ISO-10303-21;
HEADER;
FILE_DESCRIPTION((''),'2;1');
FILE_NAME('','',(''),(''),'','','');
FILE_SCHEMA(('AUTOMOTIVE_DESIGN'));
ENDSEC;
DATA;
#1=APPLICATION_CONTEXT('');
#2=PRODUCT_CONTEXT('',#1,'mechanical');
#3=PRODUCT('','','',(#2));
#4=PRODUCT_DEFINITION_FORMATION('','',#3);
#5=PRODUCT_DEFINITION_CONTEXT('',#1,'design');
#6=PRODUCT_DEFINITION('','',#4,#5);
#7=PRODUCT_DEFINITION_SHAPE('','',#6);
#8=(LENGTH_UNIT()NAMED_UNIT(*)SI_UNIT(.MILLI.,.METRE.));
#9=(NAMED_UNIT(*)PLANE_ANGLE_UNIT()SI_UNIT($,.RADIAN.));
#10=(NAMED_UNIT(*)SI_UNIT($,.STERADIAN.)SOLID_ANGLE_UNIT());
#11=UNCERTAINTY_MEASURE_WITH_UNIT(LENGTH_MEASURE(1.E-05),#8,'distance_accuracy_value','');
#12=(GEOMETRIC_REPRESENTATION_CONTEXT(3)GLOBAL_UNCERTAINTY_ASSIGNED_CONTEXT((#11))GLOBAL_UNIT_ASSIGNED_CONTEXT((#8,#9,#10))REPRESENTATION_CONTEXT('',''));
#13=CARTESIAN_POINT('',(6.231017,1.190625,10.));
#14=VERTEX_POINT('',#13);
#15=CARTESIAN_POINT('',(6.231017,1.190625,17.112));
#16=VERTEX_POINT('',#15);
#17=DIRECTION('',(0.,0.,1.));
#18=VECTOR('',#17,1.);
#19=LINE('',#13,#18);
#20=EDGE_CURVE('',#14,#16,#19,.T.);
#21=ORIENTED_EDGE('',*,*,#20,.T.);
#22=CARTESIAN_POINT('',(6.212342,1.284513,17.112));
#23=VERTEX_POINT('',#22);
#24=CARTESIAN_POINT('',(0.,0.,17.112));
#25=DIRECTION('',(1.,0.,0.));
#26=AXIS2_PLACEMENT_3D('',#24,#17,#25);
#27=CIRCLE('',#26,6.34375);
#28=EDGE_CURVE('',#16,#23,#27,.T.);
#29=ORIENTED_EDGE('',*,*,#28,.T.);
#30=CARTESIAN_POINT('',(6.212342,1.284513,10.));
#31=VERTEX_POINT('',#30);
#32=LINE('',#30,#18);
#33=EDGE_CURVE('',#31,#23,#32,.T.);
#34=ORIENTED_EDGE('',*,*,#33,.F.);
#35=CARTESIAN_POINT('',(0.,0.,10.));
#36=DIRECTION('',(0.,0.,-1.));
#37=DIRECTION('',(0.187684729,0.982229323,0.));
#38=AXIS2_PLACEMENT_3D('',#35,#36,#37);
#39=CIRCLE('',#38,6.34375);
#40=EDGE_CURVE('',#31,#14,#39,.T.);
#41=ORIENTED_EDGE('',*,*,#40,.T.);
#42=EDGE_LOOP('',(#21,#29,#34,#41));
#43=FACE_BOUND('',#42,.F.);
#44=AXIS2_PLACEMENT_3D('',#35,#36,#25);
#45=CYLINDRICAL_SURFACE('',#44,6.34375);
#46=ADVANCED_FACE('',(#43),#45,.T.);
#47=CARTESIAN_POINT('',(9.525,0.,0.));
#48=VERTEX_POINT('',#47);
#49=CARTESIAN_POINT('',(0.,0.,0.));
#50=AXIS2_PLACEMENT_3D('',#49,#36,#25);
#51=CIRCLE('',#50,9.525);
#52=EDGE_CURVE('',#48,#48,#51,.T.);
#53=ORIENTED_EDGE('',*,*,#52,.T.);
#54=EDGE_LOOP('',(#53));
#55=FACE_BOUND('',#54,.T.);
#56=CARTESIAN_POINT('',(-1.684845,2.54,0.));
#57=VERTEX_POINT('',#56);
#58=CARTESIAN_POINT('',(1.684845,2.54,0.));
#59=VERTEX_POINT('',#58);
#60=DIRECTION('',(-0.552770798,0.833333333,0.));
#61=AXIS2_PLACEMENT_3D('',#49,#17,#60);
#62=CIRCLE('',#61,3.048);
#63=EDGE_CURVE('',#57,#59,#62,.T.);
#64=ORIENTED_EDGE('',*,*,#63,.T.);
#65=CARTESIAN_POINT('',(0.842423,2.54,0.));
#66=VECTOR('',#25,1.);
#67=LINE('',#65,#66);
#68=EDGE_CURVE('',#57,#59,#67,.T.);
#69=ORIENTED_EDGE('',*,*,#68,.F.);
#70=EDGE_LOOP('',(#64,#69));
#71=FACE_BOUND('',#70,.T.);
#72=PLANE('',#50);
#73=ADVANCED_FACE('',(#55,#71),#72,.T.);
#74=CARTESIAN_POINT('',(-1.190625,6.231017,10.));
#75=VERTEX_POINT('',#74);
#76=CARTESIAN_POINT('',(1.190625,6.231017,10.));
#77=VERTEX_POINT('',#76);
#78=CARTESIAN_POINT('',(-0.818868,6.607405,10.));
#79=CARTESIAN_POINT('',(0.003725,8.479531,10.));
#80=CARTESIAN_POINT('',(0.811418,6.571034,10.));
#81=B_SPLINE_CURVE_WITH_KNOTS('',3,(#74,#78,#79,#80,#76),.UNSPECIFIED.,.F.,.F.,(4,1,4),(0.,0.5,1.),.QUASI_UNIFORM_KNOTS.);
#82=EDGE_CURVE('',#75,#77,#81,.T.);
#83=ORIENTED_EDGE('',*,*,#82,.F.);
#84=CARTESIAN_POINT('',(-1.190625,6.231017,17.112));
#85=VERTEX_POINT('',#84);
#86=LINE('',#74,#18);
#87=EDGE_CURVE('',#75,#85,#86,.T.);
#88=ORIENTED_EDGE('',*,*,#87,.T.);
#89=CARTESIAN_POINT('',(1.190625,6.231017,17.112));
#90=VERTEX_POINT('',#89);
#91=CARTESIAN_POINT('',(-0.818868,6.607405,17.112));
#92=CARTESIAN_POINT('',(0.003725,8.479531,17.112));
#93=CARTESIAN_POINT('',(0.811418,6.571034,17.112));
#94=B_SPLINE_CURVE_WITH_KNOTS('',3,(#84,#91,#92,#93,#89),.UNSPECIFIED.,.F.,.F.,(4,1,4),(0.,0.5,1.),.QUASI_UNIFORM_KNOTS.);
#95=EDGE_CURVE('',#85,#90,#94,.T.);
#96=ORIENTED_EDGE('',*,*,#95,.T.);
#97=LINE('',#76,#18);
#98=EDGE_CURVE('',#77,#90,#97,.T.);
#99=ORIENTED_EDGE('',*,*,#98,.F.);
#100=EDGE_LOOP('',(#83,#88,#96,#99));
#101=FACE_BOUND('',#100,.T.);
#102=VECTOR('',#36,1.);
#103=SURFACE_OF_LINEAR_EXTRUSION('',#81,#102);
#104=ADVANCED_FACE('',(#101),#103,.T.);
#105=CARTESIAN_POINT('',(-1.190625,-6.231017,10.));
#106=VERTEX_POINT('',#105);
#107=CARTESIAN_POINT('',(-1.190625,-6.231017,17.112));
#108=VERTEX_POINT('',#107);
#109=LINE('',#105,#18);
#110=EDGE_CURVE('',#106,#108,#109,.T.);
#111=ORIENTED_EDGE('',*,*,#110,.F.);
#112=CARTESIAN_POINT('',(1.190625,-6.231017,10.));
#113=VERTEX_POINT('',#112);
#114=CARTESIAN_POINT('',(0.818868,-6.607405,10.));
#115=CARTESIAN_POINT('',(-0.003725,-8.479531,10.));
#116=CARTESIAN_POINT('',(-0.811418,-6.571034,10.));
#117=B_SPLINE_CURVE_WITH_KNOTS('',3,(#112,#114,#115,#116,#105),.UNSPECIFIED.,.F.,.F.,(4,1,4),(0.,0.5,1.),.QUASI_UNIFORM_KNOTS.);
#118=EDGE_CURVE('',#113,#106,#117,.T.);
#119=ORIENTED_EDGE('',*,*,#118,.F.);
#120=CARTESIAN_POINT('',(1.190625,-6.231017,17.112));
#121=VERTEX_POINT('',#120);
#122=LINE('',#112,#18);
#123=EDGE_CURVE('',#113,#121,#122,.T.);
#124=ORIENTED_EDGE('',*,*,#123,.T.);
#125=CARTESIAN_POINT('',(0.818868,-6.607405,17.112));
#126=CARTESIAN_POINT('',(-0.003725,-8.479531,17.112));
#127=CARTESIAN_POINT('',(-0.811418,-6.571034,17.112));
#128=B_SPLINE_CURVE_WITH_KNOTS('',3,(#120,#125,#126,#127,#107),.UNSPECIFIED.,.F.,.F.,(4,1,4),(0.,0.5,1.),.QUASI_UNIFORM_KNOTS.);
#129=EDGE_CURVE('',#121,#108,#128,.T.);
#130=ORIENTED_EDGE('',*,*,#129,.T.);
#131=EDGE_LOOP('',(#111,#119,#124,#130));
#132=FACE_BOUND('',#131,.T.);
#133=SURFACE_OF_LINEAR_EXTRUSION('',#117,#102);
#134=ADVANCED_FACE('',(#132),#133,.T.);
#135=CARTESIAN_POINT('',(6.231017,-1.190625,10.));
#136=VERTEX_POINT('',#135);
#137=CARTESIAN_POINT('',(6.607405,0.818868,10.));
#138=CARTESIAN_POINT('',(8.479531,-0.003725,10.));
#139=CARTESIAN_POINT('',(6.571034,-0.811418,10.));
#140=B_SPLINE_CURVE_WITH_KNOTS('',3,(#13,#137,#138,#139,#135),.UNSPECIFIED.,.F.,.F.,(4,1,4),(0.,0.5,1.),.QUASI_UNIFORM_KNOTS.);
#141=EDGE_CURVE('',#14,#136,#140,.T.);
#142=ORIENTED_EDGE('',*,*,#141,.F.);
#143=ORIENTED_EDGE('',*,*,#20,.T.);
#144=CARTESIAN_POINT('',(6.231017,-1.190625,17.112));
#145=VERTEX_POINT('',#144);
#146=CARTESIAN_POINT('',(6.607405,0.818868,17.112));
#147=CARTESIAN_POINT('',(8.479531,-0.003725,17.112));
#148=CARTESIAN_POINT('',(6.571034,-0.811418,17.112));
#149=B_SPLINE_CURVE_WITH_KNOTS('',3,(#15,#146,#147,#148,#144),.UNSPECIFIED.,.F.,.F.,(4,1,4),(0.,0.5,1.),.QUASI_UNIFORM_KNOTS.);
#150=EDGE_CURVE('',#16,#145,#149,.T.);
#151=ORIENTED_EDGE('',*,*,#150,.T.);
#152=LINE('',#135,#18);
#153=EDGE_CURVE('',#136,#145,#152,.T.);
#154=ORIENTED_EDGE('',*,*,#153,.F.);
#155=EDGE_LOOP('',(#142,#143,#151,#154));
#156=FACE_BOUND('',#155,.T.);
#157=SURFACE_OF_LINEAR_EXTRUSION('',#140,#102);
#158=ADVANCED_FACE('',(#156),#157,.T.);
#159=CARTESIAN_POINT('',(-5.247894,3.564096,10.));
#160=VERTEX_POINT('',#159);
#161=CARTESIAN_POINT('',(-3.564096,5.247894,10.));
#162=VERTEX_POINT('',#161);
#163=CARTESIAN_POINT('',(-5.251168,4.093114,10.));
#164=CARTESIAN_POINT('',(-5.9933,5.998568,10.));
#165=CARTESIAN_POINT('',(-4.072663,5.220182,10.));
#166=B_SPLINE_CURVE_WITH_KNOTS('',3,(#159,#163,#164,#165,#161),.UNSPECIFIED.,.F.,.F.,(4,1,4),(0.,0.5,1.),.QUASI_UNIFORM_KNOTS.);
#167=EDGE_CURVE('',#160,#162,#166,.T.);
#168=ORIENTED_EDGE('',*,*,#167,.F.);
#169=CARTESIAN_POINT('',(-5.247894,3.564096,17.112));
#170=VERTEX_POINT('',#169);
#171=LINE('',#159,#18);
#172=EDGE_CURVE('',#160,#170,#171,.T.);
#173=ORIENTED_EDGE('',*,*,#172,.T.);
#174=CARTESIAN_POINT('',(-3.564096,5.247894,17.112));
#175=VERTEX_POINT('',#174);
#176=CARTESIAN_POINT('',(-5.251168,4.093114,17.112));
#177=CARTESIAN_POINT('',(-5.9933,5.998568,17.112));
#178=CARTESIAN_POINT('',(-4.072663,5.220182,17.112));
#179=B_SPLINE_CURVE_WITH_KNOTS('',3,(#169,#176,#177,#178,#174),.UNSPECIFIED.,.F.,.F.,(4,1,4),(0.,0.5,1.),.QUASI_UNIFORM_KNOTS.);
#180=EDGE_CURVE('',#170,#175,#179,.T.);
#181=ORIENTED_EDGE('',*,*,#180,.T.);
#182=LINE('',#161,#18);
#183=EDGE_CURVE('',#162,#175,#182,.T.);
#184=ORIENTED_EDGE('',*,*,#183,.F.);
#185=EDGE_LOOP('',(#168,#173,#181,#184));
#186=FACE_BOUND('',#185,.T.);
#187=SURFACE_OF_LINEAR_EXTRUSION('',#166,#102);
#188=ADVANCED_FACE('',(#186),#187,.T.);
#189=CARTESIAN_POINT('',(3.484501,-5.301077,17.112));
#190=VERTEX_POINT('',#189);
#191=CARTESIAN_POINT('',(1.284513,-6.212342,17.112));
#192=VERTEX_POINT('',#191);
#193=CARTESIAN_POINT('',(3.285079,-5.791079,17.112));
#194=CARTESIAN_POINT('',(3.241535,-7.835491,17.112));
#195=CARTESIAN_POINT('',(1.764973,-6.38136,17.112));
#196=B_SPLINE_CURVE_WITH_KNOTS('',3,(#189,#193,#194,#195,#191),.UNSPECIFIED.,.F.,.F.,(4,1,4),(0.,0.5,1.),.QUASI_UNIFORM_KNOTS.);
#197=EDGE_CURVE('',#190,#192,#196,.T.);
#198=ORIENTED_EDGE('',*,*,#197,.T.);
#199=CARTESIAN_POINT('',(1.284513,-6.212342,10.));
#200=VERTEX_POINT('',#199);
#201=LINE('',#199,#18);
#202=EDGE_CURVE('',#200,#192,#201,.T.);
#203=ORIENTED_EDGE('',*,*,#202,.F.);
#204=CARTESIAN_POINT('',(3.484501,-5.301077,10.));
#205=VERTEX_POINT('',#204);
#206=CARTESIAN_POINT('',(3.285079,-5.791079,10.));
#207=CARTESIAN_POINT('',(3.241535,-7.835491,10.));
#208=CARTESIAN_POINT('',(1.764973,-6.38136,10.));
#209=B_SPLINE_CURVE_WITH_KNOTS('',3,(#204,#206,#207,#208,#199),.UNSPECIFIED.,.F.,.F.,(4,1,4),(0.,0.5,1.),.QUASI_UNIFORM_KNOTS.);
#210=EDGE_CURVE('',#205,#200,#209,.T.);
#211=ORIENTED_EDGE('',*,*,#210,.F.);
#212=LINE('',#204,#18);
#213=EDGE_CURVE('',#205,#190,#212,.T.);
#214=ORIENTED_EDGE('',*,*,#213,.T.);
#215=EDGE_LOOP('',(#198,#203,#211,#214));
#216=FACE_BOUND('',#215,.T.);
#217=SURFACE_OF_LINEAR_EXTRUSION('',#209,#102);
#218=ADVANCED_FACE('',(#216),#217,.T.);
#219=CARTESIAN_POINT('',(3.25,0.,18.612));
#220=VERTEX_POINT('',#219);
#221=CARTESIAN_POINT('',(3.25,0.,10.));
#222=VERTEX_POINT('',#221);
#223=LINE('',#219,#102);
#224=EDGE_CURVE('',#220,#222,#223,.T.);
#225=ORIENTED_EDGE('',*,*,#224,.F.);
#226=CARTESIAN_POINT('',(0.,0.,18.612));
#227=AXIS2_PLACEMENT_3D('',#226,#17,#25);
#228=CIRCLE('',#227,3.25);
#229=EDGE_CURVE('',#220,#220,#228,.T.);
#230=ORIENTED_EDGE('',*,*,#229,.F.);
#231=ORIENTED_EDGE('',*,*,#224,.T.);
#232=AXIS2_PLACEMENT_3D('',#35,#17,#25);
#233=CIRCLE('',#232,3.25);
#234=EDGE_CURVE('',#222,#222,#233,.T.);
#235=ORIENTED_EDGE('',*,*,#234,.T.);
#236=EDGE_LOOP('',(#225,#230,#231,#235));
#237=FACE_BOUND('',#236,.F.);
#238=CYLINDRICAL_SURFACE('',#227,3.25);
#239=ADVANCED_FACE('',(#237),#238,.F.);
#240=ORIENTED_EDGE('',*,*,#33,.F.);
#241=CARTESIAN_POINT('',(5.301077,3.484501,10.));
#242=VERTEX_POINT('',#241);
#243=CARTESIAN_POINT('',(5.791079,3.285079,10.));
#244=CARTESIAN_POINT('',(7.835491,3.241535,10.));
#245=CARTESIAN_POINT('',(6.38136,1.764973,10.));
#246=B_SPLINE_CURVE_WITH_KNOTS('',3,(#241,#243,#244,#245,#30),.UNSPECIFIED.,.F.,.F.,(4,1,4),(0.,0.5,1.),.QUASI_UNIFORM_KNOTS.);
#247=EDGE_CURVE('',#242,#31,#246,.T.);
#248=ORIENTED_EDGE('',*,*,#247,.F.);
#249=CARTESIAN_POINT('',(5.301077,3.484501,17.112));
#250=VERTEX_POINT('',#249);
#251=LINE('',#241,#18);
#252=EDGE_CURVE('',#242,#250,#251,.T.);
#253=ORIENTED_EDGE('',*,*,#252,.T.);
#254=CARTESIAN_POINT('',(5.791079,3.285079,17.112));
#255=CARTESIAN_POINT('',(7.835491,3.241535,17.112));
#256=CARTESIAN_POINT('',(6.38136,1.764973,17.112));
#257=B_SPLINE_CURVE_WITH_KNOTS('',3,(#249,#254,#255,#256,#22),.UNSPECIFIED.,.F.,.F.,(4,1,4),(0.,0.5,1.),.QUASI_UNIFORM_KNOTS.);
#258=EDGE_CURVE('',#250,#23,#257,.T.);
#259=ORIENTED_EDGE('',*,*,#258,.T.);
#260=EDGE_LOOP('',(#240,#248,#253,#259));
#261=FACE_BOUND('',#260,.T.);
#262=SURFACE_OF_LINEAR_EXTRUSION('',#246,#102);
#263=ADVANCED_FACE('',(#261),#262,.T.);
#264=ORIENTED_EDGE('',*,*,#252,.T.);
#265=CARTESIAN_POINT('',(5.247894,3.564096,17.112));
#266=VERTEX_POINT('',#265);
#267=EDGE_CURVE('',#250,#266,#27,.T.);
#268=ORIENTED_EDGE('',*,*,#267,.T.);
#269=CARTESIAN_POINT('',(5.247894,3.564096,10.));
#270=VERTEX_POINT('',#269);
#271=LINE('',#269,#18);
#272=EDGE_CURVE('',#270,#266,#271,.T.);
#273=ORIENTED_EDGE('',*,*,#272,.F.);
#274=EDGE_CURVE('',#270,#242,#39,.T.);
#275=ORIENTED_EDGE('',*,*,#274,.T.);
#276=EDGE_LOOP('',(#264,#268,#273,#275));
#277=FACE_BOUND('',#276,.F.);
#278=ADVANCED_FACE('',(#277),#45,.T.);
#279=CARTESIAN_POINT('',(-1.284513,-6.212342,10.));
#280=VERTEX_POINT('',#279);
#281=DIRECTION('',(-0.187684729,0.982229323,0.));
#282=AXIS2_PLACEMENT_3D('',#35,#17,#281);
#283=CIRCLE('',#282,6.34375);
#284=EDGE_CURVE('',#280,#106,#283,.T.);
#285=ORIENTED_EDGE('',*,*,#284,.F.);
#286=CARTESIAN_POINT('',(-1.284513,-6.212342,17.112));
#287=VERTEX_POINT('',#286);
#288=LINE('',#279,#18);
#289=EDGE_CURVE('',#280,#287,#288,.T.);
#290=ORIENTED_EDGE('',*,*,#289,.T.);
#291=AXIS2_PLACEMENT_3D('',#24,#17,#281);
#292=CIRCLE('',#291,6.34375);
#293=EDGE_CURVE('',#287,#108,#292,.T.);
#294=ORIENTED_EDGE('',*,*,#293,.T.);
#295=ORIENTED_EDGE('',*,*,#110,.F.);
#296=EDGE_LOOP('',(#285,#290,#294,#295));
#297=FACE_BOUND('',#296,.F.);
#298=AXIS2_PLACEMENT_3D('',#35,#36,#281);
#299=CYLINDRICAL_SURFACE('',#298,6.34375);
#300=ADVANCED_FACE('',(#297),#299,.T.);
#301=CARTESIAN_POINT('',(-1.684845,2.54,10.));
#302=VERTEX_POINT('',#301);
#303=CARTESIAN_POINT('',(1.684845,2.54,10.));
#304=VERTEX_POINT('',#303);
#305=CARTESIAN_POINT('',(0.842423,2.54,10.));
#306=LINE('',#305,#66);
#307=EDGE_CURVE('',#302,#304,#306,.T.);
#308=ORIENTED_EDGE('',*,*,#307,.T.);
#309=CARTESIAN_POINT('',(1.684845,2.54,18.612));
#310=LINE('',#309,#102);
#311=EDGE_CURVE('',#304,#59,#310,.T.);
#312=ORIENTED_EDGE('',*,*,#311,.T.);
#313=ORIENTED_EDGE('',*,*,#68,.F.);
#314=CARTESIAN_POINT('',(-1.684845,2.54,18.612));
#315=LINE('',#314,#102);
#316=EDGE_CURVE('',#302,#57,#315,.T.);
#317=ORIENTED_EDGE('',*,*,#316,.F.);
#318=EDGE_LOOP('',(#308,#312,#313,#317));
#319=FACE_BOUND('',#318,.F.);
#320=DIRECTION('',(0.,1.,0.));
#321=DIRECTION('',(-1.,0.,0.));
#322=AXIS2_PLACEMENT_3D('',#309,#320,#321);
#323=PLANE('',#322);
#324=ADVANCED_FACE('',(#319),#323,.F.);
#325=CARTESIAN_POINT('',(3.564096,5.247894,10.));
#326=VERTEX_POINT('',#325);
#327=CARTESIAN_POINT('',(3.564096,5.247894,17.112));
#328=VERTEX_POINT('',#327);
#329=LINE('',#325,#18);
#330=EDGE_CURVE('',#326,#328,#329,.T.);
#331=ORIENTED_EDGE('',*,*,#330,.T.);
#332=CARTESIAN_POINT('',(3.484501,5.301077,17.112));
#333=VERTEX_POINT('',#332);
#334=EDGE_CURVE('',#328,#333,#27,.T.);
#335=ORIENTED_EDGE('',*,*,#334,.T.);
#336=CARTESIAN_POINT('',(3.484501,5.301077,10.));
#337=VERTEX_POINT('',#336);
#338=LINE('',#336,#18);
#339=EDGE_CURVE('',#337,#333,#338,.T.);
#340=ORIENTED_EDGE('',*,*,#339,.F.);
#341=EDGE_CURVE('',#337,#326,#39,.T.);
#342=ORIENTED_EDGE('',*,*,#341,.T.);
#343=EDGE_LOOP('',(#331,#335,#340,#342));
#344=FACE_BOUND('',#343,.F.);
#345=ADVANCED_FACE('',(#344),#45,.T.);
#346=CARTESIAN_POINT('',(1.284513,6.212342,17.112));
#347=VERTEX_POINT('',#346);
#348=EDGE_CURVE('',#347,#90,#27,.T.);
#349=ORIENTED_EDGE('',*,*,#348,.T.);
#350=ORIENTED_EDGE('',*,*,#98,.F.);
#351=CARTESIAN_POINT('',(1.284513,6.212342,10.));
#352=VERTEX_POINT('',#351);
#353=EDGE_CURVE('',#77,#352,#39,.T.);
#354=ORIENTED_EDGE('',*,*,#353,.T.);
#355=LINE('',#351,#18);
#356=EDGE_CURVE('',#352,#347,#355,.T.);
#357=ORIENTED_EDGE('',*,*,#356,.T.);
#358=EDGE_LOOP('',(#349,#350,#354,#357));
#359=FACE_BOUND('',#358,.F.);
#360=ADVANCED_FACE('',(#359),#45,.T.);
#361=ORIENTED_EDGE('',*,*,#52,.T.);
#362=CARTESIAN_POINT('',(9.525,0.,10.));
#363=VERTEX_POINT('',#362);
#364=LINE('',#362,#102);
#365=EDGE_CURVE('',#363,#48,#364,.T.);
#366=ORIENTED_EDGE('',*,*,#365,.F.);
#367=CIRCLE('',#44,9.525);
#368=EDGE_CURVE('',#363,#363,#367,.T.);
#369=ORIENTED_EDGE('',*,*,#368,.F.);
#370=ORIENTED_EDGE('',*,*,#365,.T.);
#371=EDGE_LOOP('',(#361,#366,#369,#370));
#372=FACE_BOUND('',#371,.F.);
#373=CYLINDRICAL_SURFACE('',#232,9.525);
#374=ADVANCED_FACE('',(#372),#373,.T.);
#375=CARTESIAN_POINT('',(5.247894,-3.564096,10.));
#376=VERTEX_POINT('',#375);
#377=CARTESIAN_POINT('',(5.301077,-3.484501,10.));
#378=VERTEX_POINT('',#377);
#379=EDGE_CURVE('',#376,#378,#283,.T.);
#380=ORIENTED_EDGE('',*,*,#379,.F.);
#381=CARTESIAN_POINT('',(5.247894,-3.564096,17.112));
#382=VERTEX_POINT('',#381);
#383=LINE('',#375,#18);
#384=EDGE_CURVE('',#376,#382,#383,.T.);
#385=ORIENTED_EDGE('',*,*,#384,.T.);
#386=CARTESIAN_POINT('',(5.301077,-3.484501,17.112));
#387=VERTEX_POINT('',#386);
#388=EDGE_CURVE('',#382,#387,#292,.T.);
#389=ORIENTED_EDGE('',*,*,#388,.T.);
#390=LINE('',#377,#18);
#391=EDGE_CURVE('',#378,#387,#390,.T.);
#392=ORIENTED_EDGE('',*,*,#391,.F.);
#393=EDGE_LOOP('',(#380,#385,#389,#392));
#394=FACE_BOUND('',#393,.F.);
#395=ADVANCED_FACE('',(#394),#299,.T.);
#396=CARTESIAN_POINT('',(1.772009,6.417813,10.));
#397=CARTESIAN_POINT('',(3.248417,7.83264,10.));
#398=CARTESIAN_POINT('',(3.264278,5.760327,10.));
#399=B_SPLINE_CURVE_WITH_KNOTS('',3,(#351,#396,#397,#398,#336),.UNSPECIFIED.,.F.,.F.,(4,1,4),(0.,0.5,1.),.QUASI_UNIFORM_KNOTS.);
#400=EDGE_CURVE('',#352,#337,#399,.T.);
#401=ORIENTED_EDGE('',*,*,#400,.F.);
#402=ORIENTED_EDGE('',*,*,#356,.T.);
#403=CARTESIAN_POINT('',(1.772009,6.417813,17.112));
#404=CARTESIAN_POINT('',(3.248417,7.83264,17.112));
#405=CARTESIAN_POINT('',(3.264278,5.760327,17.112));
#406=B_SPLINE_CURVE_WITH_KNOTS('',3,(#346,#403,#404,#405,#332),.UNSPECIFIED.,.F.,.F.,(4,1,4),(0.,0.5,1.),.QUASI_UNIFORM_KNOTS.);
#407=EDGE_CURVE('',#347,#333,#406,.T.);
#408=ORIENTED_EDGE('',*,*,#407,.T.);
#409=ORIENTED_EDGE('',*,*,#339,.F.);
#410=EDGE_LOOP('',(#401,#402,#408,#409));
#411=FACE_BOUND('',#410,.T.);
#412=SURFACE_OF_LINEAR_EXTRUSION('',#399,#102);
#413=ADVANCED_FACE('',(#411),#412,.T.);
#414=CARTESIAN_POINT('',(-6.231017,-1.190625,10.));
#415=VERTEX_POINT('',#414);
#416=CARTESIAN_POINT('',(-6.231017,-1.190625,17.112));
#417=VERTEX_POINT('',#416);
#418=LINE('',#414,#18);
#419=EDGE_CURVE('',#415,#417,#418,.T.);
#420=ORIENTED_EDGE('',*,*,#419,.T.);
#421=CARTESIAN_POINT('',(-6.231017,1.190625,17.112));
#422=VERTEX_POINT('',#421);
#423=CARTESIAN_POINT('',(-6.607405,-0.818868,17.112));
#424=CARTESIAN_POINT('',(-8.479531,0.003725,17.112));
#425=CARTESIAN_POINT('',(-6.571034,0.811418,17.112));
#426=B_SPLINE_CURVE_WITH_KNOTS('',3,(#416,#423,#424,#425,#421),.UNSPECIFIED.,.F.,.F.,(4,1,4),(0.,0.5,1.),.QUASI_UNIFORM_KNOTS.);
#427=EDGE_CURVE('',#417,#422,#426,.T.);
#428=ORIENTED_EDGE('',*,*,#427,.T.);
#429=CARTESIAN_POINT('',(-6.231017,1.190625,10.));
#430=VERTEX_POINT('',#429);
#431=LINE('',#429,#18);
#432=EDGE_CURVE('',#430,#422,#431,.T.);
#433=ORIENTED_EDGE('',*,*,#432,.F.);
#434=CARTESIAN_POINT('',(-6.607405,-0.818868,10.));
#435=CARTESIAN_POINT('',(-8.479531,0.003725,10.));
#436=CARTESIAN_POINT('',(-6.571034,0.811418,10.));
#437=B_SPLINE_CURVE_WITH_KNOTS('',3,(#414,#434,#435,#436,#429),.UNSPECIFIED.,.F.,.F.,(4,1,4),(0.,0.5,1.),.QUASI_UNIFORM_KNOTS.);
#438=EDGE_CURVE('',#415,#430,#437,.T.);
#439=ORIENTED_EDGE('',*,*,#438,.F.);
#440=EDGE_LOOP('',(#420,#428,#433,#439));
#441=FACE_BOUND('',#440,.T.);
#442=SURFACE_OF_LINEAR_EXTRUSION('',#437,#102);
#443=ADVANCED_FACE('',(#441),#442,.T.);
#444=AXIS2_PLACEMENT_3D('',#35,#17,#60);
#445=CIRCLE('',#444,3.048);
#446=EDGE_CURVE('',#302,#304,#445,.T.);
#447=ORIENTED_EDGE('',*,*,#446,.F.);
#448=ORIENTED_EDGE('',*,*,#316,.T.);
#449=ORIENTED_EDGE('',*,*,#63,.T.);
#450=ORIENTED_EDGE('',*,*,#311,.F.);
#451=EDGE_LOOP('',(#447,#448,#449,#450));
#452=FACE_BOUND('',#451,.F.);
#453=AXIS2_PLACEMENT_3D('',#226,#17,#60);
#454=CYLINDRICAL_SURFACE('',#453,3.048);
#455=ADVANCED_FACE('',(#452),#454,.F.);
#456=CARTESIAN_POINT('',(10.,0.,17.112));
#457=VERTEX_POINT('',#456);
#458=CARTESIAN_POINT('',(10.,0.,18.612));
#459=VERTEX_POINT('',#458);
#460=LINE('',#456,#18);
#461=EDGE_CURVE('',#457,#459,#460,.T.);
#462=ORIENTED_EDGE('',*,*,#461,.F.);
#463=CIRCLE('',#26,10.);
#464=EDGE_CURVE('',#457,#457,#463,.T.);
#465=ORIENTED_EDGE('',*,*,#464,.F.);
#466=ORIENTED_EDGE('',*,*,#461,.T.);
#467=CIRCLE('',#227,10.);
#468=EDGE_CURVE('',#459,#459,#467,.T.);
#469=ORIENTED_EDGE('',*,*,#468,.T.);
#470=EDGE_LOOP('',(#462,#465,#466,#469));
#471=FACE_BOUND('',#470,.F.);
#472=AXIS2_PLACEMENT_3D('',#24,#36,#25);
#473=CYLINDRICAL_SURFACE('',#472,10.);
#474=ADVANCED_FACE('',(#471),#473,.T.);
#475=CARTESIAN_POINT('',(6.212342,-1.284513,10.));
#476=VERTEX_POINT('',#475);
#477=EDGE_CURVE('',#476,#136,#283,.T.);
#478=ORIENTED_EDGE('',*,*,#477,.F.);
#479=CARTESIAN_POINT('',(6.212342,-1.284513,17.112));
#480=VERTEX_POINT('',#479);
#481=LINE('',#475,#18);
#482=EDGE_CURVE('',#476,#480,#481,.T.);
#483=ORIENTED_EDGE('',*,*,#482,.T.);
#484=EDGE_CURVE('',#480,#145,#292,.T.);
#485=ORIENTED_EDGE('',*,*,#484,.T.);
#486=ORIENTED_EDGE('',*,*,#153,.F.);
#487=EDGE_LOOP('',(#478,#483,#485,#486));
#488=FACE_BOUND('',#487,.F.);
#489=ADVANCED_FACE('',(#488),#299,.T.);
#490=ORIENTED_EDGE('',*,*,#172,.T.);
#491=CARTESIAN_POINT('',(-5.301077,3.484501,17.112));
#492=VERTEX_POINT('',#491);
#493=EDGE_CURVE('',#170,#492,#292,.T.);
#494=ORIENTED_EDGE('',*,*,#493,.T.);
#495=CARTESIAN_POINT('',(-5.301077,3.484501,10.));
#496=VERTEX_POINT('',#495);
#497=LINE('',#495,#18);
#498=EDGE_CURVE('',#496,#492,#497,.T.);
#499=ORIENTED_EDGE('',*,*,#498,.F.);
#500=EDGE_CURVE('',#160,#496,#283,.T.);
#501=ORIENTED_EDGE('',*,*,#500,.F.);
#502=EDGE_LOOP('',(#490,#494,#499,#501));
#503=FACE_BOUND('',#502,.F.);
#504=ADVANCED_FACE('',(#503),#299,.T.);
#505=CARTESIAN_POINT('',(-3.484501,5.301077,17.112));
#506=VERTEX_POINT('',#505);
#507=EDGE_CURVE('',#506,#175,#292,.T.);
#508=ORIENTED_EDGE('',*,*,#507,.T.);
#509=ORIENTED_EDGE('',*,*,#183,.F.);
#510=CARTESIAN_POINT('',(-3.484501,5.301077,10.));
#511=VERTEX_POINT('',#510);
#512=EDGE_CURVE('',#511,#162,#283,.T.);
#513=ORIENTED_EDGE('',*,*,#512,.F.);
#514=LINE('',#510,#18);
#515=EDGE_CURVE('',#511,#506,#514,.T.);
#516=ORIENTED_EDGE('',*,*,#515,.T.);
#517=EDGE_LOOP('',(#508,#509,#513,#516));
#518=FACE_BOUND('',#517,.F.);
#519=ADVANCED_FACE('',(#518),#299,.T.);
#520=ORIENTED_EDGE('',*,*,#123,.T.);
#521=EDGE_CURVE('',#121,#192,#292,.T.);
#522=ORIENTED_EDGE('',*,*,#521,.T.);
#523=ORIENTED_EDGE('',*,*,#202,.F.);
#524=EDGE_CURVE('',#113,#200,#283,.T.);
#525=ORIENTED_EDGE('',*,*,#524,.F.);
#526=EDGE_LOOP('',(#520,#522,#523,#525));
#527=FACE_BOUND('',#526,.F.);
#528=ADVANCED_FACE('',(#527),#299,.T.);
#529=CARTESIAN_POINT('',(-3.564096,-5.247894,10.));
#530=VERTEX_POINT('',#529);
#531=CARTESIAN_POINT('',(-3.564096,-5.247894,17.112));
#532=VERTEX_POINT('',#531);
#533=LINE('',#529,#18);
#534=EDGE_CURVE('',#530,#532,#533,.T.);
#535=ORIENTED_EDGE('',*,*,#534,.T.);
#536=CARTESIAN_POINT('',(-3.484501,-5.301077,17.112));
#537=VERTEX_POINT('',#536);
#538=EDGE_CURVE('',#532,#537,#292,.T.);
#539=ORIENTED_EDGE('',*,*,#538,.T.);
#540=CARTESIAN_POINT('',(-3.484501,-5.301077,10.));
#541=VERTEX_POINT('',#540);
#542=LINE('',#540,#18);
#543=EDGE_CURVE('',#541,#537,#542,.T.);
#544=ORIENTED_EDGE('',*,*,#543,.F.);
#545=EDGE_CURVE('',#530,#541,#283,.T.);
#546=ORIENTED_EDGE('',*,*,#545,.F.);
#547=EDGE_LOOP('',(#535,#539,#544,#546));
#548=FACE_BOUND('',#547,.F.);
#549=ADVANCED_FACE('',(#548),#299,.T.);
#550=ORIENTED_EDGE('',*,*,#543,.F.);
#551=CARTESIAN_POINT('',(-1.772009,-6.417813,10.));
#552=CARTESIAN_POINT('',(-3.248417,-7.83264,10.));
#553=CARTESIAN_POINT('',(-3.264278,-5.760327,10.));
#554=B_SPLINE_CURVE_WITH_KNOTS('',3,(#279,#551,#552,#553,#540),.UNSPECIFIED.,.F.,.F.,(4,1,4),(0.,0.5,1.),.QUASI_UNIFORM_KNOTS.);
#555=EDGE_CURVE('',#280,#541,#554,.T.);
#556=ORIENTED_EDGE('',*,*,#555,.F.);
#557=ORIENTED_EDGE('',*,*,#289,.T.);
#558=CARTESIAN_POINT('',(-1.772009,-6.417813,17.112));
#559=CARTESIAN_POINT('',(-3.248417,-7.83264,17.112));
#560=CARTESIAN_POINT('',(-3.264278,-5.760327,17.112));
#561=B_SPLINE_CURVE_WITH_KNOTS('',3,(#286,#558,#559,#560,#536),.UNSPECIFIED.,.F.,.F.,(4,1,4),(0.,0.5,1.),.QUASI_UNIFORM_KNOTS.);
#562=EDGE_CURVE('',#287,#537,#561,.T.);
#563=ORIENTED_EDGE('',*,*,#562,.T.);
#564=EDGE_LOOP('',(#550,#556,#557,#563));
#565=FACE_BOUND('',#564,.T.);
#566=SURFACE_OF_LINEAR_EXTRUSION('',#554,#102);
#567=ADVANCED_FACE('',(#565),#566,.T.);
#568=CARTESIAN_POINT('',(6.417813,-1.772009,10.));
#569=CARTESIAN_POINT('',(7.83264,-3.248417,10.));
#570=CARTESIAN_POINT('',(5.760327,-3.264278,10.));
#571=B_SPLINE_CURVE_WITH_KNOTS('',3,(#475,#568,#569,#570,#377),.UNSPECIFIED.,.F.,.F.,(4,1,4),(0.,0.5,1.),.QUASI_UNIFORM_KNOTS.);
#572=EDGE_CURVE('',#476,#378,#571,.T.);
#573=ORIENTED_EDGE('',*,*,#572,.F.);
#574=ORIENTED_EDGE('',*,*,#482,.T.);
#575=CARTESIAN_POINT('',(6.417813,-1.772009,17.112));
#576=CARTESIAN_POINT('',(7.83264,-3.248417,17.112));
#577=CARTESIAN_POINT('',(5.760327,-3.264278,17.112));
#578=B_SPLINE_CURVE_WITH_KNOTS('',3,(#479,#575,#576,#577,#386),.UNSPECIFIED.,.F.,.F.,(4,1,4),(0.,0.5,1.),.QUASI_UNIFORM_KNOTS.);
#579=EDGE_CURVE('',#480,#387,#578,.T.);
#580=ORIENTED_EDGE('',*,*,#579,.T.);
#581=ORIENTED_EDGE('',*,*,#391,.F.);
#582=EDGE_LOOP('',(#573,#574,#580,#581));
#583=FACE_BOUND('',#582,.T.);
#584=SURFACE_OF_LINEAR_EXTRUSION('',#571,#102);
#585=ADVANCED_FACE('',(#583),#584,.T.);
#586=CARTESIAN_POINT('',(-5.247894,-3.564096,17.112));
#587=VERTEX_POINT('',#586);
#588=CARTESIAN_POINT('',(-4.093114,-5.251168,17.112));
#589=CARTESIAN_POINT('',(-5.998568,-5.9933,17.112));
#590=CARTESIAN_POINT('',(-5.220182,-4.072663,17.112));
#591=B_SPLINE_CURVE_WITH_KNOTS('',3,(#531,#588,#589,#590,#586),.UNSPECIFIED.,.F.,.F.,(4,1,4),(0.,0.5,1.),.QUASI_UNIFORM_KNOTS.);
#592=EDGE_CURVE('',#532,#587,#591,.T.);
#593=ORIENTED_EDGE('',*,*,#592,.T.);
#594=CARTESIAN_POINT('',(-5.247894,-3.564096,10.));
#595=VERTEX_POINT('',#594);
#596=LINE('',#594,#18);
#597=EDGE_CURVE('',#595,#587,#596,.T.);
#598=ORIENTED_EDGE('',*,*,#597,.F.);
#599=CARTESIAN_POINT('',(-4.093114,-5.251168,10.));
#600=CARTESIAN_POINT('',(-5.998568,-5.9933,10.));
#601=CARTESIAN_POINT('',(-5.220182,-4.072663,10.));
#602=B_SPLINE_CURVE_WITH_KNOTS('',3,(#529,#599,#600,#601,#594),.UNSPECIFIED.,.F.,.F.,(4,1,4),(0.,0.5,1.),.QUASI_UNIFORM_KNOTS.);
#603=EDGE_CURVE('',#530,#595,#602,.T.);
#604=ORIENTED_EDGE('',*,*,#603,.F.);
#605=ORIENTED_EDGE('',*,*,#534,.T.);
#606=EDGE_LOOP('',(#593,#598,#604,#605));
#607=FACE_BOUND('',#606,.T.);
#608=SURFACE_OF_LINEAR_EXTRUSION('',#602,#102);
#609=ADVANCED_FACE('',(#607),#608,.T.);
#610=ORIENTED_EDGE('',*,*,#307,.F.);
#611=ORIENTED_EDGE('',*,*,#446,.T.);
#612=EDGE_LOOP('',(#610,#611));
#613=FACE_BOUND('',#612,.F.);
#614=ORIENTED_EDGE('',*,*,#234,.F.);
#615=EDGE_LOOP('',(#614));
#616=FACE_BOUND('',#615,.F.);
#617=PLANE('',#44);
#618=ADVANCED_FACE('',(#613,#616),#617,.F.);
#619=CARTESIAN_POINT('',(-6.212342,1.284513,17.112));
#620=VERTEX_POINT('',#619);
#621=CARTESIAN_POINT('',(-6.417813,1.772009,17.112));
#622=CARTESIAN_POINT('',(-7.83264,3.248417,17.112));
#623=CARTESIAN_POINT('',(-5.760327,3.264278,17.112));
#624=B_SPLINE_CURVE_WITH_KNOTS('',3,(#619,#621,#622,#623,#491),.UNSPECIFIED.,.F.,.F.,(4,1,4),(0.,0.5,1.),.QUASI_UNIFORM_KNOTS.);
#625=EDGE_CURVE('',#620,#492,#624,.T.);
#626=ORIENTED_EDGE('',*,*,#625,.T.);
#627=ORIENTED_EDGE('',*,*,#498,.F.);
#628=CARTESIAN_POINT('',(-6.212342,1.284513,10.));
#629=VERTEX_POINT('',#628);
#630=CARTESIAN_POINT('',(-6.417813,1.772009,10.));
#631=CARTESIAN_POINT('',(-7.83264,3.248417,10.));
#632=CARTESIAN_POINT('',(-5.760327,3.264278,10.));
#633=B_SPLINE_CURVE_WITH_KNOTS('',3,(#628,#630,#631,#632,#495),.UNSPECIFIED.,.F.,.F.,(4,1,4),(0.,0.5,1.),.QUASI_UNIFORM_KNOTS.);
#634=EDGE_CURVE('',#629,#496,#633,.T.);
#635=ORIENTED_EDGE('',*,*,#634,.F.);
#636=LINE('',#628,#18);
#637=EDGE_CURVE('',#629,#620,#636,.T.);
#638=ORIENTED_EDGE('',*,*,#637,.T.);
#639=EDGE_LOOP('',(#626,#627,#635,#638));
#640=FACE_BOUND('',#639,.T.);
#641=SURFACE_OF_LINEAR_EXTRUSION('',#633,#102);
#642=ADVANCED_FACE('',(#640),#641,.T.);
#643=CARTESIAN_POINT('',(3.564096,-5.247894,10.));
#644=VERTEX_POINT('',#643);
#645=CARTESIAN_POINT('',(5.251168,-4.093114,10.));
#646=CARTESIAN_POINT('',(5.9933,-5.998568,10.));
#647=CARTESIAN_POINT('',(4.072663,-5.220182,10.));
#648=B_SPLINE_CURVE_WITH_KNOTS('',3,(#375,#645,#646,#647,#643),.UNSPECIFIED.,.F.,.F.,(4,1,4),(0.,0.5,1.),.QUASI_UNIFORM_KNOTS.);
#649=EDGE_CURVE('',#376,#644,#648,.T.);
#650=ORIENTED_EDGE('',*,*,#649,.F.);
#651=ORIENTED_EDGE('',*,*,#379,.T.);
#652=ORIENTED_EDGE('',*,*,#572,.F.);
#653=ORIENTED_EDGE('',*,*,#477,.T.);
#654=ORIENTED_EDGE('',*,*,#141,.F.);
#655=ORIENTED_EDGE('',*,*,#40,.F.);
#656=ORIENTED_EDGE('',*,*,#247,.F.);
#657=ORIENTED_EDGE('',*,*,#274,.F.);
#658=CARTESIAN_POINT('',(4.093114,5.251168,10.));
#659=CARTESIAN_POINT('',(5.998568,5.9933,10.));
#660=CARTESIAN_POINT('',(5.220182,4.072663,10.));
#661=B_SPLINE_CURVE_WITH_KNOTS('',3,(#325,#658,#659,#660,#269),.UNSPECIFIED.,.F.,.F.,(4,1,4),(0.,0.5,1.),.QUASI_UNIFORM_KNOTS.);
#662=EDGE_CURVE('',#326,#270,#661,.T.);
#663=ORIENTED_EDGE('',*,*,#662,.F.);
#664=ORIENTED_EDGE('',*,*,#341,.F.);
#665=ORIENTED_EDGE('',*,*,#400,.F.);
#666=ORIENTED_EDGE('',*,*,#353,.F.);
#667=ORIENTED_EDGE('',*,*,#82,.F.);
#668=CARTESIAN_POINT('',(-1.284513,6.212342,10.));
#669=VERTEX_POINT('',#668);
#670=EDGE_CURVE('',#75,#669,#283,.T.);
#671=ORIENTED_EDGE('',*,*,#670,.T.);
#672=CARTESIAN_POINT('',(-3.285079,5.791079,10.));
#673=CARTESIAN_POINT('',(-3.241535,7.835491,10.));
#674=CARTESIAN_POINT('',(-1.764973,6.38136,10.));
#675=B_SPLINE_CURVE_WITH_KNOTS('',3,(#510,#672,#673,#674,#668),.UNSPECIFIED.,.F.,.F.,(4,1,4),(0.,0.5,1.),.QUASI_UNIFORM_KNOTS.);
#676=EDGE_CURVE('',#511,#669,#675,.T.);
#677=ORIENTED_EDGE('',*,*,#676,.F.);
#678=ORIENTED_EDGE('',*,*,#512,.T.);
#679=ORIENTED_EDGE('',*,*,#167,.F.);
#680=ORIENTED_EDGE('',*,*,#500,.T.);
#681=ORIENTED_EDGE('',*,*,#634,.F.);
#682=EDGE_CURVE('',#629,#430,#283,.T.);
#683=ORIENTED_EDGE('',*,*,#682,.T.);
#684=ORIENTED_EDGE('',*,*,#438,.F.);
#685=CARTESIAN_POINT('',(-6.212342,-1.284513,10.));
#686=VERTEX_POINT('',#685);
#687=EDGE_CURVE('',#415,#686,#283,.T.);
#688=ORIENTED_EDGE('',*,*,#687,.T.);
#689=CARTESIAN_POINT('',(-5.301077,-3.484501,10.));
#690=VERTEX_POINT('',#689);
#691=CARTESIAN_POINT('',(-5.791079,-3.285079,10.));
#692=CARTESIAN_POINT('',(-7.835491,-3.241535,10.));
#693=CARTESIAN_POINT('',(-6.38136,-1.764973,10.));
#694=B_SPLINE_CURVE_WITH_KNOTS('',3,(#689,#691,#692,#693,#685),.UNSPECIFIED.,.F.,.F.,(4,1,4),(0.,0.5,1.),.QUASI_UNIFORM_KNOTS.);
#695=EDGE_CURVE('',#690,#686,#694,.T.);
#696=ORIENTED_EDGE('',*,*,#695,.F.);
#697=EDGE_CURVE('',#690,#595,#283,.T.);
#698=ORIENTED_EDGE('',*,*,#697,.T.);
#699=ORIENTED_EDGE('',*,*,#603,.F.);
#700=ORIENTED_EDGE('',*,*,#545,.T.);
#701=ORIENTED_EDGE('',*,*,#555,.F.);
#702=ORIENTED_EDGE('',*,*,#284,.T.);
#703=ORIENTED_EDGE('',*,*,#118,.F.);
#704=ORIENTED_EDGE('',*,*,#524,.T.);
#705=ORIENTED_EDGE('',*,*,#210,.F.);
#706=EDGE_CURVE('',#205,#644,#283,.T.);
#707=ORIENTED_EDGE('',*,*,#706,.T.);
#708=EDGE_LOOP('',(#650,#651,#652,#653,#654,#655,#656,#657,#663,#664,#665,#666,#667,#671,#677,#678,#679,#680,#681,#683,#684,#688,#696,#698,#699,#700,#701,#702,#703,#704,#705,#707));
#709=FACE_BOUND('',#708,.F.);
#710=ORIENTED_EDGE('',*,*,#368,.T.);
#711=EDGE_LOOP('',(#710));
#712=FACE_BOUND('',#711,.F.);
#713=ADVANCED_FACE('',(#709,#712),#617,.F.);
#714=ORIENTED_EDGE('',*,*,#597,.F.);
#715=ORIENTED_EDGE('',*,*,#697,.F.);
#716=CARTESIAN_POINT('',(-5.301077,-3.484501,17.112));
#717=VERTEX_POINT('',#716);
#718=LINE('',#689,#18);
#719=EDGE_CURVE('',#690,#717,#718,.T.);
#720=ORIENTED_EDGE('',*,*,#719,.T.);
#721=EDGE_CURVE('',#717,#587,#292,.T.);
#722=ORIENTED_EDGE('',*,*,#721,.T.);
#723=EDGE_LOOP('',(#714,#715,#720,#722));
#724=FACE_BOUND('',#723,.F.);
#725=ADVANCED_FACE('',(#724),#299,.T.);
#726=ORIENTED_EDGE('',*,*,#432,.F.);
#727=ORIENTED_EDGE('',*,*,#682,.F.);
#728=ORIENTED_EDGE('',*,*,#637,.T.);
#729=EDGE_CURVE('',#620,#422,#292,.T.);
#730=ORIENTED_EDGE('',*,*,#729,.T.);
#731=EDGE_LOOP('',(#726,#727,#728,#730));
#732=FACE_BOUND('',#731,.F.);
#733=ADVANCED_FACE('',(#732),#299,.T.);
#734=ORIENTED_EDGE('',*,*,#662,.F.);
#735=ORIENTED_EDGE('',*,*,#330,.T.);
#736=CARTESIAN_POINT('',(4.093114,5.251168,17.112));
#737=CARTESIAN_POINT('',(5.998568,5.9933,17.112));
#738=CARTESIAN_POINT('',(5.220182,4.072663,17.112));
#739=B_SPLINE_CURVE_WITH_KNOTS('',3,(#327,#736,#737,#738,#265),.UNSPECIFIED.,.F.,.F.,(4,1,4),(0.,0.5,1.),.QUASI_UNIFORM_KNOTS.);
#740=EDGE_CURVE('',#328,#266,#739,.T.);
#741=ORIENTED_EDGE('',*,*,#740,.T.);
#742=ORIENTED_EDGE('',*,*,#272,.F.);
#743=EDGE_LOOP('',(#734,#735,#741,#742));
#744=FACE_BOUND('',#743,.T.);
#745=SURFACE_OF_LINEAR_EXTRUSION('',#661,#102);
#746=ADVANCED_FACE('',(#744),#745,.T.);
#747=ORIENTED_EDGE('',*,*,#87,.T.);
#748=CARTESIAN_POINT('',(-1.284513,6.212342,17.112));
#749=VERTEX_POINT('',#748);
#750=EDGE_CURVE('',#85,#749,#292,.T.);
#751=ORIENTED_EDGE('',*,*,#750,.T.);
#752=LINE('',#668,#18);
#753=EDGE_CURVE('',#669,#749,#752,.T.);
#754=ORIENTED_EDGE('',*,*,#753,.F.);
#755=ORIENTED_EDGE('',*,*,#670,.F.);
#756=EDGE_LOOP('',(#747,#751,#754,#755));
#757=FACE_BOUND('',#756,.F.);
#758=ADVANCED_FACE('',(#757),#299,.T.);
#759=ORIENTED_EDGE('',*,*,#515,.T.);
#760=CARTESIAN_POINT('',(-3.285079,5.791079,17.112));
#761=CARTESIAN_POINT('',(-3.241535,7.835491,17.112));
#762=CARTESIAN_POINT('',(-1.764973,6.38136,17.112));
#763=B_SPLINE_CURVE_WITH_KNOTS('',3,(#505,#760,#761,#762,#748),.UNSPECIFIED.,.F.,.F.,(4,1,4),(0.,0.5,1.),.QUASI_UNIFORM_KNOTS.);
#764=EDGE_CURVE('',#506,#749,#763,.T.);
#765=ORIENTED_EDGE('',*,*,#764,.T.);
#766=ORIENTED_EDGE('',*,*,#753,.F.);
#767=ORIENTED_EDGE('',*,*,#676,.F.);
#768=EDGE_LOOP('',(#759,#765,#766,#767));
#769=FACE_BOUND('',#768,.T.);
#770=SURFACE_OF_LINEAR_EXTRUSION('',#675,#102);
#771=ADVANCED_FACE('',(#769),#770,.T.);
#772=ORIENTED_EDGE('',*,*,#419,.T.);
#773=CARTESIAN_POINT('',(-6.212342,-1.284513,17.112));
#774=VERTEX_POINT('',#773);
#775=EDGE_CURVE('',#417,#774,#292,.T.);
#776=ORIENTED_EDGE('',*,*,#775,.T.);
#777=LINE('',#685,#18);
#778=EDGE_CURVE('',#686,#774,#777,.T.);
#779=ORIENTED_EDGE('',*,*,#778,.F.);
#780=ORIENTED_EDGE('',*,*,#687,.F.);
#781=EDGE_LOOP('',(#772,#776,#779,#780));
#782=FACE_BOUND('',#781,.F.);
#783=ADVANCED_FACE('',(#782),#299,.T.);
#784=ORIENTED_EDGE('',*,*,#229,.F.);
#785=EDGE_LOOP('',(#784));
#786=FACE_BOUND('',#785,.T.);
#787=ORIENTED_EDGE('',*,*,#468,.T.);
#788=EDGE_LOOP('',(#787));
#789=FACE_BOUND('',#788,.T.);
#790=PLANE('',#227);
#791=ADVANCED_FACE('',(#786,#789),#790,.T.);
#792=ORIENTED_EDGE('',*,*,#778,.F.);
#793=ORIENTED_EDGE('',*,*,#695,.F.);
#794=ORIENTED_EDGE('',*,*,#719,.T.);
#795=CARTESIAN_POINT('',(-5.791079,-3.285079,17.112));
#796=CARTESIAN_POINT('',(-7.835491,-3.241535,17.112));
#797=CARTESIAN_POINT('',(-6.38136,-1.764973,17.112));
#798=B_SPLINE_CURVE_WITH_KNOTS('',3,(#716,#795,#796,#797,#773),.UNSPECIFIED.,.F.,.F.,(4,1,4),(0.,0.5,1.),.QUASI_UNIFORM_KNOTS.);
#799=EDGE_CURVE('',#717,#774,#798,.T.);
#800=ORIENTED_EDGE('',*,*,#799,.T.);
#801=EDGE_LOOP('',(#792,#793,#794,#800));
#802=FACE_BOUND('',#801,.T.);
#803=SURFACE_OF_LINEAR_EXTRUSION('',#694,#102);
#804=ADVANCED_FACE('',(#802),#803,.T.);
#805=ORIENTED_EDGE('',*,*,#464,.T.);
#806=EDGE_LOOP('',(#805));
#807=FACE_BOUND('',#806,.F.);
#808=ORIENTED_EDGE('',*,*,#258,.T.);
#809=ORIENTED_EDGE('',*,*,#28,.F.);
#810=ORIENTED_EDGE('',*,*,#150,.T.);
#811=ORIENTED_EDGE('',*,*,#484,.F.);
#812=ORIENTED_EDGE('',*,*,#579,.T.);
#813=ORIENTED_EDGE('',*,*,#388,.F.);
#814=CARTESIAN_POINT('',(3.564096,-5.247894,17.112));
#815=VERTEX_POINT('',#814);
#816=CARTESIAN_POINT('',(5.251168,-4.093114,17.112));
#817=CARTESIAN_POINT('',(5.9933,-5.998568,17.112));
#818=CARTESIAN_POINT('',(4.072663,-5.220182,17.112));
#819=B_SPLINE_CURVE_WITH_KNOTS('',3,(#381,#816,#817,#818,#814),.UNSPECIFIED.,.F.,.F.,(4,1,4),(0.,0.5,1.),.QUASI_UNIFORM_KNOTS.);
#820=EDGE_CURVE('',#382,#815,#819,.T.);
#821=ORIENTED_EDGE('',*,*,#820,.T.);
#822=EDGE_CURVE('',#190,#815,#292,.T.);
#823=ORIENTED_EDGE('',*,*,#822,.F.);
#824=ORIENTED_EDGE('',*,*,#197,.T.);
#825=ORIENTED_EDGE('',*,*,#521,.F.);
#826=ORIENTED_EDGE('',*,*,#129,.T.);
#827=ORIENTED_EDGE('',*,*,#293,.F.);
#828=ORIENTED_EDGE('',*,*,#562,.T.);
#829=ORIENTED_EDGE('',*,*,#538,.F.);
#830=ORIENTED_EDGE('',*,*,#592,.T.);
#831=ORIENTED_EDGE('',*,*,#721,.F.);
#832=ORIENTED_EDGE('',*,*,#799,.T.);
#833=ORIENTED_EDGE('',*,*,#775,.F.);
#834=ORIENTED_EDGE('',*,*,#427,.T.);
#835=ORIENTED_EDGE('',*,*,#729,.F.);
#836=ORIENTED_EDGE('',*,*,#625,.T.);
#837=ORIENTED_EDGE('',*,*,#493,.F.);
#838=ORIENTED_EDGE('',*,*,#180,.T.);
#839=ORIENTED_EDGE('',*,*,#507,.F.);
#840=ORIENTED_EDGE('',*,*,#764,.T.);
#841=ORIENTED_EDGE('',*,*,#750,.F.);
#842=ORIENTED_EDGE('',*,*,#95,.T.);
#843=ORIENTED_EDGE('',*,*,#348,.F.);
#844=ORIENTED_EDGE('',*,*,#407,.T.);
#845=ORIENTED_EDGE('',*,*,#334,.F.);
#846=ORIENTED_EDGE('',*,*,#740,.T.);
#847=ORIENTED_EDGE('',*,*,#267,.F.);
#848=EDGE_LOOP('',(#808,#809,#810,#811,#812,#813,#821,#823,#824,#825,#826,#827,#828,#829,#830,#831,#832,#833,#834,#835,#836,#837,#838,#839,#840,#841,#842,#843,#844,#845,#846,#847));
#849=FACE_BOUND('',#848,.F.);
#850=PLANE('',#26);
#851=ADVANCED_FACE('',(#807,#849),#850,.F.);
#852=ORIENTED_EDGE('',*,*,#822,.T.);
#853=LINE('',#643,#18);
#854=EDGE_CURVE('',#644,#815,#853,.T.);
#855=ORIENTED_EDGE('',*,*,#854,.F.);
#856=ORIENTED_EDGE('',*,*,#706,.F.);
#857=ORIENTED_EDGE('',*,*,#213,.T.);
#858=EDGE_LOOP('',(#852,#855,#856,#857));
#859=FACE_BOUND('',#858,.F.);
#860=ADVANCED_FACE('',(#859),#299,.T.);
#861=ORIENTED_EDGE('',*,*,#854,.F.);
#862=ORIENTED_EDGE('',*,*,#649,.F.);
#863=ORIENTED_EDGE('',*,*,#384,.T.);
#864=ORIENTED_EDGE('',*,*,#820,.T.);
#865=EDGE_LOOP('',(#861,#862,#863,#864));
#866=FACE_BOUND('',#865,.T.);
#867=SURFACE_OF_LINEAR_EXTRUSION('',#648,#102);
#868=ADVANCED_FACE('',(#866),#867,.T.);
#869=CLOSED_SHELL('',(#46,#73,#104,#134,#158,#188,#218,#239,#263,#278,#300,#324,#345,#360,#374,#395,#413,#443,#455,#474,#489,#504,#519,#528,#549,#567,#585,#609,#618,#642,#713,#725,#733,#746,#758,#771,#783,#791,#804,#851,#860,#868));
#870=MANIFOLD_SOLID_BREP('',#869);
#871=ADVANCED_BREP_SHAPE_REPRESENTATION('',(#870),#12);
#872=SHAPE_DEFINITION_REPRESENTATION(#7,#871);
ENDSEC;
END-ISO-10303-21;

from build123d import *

# Parameters (mm, degrees)
F0_R      = 4.0386
F1_DEPTH  = 10
F3_DEPTH  = 7.112
F5_COUNT  = 16
F6_R      = 10
F7_DEPTH  = 1.5
F8_R      = 3.25
F9_DEPTH  = 18.613
F10_R     = 9.525
F11_DEPTH = 10
F13_DEPTH = 18.613


with BuildPart() as f1:
    # F0 (on Top) → F1 (new body)
    with BuildSketch(Plane.XY):
        Circle(F0_R)
    extrude(amount=F1_DEPTH)

    # F2 (on face) → F3 (join)
    with BuildSketch(Plane.XY.offset(10)):
        with BuildLine():
            ThreePointArc((-1.190625, 6.2310172662), (-4.0429034566, -4.8885678581), (6.34375, 0))
            ThreePointArc((6.34375, 0), (4.8885678581, 4.0429034566), (1.190625, 6.2310172662))
            ThreePointArc((1.190625, 6.2310172662), (0, 6.34375), (-1.190625, 6.2310172662))
        make_face()
        with BuildLine():
            ThreePointArc((-1.190625, 6.2310172662), (0, 6.34375), (1.190625, 6.2310172662))
            add(Edge.make_bspline(
                [(-1.190625, 6.2310172662), (-0.8188678232, 6.6074045675), (0.0037249265, 8.4795309027), (0.8114179702, 6.571033627), (1.190625, 6.2310172662)],
                knots=[0, 0, 0, 0, 0.5, 1, 1, 1, 1], degree=3))
        make_face()
    extrude(amount=F3_DEPTH)

    # F5: F1 ×16 about axis
    f5_axis = Axis((0, 0, 16.2677839398), (0, 0, 1))


with BuildPart() as f1_1:
    add(f1.part)
    for i in range(1, F5_COUNT):
        add(f1.part.rotate(f5_axis, i * 360 / F5_COUNT))

    # F6 (on face) → F7 (join)
    with BuildSketch(Plane.XY.offset(17.112)):
        Circle(F6_R)
    extrude(amount=F7_DEPTH)

    # F8 (on face) → F9 (cut, through all)
    with BuildSketch(Plane.XY.offset(18.612)):
        Circle(F8_R)
    extrude(amount=-F9_DEPTH, mode=Mode.SUBTRACT)

    # F10 (on face) → F11 (join, through all)
    with BuildSketch(Plane(origin=(0, 0, 10), x_dir=(1, 0, 0), z_dir=(0, 0, -1))):
        Circle(F10_R)
    extrude(amount=F11_DEPTH)

    # F12 (on face) → F13 (cut, through all)
    with BuildSketch(Plane.XY.offset(18.612)):
        with BuildLine():
            Line((1.6848453935, 2.54), (-1.6848453935, 2.54))
            ThreePointArc((-1.6848453935, 2.54), (0, -3.048), (1.6848453935, 2.54))
        make_face()
    extrude(amount=-F13_DEPTH, mode=Mode.SUBTRACT)


solid = f1_1.part
